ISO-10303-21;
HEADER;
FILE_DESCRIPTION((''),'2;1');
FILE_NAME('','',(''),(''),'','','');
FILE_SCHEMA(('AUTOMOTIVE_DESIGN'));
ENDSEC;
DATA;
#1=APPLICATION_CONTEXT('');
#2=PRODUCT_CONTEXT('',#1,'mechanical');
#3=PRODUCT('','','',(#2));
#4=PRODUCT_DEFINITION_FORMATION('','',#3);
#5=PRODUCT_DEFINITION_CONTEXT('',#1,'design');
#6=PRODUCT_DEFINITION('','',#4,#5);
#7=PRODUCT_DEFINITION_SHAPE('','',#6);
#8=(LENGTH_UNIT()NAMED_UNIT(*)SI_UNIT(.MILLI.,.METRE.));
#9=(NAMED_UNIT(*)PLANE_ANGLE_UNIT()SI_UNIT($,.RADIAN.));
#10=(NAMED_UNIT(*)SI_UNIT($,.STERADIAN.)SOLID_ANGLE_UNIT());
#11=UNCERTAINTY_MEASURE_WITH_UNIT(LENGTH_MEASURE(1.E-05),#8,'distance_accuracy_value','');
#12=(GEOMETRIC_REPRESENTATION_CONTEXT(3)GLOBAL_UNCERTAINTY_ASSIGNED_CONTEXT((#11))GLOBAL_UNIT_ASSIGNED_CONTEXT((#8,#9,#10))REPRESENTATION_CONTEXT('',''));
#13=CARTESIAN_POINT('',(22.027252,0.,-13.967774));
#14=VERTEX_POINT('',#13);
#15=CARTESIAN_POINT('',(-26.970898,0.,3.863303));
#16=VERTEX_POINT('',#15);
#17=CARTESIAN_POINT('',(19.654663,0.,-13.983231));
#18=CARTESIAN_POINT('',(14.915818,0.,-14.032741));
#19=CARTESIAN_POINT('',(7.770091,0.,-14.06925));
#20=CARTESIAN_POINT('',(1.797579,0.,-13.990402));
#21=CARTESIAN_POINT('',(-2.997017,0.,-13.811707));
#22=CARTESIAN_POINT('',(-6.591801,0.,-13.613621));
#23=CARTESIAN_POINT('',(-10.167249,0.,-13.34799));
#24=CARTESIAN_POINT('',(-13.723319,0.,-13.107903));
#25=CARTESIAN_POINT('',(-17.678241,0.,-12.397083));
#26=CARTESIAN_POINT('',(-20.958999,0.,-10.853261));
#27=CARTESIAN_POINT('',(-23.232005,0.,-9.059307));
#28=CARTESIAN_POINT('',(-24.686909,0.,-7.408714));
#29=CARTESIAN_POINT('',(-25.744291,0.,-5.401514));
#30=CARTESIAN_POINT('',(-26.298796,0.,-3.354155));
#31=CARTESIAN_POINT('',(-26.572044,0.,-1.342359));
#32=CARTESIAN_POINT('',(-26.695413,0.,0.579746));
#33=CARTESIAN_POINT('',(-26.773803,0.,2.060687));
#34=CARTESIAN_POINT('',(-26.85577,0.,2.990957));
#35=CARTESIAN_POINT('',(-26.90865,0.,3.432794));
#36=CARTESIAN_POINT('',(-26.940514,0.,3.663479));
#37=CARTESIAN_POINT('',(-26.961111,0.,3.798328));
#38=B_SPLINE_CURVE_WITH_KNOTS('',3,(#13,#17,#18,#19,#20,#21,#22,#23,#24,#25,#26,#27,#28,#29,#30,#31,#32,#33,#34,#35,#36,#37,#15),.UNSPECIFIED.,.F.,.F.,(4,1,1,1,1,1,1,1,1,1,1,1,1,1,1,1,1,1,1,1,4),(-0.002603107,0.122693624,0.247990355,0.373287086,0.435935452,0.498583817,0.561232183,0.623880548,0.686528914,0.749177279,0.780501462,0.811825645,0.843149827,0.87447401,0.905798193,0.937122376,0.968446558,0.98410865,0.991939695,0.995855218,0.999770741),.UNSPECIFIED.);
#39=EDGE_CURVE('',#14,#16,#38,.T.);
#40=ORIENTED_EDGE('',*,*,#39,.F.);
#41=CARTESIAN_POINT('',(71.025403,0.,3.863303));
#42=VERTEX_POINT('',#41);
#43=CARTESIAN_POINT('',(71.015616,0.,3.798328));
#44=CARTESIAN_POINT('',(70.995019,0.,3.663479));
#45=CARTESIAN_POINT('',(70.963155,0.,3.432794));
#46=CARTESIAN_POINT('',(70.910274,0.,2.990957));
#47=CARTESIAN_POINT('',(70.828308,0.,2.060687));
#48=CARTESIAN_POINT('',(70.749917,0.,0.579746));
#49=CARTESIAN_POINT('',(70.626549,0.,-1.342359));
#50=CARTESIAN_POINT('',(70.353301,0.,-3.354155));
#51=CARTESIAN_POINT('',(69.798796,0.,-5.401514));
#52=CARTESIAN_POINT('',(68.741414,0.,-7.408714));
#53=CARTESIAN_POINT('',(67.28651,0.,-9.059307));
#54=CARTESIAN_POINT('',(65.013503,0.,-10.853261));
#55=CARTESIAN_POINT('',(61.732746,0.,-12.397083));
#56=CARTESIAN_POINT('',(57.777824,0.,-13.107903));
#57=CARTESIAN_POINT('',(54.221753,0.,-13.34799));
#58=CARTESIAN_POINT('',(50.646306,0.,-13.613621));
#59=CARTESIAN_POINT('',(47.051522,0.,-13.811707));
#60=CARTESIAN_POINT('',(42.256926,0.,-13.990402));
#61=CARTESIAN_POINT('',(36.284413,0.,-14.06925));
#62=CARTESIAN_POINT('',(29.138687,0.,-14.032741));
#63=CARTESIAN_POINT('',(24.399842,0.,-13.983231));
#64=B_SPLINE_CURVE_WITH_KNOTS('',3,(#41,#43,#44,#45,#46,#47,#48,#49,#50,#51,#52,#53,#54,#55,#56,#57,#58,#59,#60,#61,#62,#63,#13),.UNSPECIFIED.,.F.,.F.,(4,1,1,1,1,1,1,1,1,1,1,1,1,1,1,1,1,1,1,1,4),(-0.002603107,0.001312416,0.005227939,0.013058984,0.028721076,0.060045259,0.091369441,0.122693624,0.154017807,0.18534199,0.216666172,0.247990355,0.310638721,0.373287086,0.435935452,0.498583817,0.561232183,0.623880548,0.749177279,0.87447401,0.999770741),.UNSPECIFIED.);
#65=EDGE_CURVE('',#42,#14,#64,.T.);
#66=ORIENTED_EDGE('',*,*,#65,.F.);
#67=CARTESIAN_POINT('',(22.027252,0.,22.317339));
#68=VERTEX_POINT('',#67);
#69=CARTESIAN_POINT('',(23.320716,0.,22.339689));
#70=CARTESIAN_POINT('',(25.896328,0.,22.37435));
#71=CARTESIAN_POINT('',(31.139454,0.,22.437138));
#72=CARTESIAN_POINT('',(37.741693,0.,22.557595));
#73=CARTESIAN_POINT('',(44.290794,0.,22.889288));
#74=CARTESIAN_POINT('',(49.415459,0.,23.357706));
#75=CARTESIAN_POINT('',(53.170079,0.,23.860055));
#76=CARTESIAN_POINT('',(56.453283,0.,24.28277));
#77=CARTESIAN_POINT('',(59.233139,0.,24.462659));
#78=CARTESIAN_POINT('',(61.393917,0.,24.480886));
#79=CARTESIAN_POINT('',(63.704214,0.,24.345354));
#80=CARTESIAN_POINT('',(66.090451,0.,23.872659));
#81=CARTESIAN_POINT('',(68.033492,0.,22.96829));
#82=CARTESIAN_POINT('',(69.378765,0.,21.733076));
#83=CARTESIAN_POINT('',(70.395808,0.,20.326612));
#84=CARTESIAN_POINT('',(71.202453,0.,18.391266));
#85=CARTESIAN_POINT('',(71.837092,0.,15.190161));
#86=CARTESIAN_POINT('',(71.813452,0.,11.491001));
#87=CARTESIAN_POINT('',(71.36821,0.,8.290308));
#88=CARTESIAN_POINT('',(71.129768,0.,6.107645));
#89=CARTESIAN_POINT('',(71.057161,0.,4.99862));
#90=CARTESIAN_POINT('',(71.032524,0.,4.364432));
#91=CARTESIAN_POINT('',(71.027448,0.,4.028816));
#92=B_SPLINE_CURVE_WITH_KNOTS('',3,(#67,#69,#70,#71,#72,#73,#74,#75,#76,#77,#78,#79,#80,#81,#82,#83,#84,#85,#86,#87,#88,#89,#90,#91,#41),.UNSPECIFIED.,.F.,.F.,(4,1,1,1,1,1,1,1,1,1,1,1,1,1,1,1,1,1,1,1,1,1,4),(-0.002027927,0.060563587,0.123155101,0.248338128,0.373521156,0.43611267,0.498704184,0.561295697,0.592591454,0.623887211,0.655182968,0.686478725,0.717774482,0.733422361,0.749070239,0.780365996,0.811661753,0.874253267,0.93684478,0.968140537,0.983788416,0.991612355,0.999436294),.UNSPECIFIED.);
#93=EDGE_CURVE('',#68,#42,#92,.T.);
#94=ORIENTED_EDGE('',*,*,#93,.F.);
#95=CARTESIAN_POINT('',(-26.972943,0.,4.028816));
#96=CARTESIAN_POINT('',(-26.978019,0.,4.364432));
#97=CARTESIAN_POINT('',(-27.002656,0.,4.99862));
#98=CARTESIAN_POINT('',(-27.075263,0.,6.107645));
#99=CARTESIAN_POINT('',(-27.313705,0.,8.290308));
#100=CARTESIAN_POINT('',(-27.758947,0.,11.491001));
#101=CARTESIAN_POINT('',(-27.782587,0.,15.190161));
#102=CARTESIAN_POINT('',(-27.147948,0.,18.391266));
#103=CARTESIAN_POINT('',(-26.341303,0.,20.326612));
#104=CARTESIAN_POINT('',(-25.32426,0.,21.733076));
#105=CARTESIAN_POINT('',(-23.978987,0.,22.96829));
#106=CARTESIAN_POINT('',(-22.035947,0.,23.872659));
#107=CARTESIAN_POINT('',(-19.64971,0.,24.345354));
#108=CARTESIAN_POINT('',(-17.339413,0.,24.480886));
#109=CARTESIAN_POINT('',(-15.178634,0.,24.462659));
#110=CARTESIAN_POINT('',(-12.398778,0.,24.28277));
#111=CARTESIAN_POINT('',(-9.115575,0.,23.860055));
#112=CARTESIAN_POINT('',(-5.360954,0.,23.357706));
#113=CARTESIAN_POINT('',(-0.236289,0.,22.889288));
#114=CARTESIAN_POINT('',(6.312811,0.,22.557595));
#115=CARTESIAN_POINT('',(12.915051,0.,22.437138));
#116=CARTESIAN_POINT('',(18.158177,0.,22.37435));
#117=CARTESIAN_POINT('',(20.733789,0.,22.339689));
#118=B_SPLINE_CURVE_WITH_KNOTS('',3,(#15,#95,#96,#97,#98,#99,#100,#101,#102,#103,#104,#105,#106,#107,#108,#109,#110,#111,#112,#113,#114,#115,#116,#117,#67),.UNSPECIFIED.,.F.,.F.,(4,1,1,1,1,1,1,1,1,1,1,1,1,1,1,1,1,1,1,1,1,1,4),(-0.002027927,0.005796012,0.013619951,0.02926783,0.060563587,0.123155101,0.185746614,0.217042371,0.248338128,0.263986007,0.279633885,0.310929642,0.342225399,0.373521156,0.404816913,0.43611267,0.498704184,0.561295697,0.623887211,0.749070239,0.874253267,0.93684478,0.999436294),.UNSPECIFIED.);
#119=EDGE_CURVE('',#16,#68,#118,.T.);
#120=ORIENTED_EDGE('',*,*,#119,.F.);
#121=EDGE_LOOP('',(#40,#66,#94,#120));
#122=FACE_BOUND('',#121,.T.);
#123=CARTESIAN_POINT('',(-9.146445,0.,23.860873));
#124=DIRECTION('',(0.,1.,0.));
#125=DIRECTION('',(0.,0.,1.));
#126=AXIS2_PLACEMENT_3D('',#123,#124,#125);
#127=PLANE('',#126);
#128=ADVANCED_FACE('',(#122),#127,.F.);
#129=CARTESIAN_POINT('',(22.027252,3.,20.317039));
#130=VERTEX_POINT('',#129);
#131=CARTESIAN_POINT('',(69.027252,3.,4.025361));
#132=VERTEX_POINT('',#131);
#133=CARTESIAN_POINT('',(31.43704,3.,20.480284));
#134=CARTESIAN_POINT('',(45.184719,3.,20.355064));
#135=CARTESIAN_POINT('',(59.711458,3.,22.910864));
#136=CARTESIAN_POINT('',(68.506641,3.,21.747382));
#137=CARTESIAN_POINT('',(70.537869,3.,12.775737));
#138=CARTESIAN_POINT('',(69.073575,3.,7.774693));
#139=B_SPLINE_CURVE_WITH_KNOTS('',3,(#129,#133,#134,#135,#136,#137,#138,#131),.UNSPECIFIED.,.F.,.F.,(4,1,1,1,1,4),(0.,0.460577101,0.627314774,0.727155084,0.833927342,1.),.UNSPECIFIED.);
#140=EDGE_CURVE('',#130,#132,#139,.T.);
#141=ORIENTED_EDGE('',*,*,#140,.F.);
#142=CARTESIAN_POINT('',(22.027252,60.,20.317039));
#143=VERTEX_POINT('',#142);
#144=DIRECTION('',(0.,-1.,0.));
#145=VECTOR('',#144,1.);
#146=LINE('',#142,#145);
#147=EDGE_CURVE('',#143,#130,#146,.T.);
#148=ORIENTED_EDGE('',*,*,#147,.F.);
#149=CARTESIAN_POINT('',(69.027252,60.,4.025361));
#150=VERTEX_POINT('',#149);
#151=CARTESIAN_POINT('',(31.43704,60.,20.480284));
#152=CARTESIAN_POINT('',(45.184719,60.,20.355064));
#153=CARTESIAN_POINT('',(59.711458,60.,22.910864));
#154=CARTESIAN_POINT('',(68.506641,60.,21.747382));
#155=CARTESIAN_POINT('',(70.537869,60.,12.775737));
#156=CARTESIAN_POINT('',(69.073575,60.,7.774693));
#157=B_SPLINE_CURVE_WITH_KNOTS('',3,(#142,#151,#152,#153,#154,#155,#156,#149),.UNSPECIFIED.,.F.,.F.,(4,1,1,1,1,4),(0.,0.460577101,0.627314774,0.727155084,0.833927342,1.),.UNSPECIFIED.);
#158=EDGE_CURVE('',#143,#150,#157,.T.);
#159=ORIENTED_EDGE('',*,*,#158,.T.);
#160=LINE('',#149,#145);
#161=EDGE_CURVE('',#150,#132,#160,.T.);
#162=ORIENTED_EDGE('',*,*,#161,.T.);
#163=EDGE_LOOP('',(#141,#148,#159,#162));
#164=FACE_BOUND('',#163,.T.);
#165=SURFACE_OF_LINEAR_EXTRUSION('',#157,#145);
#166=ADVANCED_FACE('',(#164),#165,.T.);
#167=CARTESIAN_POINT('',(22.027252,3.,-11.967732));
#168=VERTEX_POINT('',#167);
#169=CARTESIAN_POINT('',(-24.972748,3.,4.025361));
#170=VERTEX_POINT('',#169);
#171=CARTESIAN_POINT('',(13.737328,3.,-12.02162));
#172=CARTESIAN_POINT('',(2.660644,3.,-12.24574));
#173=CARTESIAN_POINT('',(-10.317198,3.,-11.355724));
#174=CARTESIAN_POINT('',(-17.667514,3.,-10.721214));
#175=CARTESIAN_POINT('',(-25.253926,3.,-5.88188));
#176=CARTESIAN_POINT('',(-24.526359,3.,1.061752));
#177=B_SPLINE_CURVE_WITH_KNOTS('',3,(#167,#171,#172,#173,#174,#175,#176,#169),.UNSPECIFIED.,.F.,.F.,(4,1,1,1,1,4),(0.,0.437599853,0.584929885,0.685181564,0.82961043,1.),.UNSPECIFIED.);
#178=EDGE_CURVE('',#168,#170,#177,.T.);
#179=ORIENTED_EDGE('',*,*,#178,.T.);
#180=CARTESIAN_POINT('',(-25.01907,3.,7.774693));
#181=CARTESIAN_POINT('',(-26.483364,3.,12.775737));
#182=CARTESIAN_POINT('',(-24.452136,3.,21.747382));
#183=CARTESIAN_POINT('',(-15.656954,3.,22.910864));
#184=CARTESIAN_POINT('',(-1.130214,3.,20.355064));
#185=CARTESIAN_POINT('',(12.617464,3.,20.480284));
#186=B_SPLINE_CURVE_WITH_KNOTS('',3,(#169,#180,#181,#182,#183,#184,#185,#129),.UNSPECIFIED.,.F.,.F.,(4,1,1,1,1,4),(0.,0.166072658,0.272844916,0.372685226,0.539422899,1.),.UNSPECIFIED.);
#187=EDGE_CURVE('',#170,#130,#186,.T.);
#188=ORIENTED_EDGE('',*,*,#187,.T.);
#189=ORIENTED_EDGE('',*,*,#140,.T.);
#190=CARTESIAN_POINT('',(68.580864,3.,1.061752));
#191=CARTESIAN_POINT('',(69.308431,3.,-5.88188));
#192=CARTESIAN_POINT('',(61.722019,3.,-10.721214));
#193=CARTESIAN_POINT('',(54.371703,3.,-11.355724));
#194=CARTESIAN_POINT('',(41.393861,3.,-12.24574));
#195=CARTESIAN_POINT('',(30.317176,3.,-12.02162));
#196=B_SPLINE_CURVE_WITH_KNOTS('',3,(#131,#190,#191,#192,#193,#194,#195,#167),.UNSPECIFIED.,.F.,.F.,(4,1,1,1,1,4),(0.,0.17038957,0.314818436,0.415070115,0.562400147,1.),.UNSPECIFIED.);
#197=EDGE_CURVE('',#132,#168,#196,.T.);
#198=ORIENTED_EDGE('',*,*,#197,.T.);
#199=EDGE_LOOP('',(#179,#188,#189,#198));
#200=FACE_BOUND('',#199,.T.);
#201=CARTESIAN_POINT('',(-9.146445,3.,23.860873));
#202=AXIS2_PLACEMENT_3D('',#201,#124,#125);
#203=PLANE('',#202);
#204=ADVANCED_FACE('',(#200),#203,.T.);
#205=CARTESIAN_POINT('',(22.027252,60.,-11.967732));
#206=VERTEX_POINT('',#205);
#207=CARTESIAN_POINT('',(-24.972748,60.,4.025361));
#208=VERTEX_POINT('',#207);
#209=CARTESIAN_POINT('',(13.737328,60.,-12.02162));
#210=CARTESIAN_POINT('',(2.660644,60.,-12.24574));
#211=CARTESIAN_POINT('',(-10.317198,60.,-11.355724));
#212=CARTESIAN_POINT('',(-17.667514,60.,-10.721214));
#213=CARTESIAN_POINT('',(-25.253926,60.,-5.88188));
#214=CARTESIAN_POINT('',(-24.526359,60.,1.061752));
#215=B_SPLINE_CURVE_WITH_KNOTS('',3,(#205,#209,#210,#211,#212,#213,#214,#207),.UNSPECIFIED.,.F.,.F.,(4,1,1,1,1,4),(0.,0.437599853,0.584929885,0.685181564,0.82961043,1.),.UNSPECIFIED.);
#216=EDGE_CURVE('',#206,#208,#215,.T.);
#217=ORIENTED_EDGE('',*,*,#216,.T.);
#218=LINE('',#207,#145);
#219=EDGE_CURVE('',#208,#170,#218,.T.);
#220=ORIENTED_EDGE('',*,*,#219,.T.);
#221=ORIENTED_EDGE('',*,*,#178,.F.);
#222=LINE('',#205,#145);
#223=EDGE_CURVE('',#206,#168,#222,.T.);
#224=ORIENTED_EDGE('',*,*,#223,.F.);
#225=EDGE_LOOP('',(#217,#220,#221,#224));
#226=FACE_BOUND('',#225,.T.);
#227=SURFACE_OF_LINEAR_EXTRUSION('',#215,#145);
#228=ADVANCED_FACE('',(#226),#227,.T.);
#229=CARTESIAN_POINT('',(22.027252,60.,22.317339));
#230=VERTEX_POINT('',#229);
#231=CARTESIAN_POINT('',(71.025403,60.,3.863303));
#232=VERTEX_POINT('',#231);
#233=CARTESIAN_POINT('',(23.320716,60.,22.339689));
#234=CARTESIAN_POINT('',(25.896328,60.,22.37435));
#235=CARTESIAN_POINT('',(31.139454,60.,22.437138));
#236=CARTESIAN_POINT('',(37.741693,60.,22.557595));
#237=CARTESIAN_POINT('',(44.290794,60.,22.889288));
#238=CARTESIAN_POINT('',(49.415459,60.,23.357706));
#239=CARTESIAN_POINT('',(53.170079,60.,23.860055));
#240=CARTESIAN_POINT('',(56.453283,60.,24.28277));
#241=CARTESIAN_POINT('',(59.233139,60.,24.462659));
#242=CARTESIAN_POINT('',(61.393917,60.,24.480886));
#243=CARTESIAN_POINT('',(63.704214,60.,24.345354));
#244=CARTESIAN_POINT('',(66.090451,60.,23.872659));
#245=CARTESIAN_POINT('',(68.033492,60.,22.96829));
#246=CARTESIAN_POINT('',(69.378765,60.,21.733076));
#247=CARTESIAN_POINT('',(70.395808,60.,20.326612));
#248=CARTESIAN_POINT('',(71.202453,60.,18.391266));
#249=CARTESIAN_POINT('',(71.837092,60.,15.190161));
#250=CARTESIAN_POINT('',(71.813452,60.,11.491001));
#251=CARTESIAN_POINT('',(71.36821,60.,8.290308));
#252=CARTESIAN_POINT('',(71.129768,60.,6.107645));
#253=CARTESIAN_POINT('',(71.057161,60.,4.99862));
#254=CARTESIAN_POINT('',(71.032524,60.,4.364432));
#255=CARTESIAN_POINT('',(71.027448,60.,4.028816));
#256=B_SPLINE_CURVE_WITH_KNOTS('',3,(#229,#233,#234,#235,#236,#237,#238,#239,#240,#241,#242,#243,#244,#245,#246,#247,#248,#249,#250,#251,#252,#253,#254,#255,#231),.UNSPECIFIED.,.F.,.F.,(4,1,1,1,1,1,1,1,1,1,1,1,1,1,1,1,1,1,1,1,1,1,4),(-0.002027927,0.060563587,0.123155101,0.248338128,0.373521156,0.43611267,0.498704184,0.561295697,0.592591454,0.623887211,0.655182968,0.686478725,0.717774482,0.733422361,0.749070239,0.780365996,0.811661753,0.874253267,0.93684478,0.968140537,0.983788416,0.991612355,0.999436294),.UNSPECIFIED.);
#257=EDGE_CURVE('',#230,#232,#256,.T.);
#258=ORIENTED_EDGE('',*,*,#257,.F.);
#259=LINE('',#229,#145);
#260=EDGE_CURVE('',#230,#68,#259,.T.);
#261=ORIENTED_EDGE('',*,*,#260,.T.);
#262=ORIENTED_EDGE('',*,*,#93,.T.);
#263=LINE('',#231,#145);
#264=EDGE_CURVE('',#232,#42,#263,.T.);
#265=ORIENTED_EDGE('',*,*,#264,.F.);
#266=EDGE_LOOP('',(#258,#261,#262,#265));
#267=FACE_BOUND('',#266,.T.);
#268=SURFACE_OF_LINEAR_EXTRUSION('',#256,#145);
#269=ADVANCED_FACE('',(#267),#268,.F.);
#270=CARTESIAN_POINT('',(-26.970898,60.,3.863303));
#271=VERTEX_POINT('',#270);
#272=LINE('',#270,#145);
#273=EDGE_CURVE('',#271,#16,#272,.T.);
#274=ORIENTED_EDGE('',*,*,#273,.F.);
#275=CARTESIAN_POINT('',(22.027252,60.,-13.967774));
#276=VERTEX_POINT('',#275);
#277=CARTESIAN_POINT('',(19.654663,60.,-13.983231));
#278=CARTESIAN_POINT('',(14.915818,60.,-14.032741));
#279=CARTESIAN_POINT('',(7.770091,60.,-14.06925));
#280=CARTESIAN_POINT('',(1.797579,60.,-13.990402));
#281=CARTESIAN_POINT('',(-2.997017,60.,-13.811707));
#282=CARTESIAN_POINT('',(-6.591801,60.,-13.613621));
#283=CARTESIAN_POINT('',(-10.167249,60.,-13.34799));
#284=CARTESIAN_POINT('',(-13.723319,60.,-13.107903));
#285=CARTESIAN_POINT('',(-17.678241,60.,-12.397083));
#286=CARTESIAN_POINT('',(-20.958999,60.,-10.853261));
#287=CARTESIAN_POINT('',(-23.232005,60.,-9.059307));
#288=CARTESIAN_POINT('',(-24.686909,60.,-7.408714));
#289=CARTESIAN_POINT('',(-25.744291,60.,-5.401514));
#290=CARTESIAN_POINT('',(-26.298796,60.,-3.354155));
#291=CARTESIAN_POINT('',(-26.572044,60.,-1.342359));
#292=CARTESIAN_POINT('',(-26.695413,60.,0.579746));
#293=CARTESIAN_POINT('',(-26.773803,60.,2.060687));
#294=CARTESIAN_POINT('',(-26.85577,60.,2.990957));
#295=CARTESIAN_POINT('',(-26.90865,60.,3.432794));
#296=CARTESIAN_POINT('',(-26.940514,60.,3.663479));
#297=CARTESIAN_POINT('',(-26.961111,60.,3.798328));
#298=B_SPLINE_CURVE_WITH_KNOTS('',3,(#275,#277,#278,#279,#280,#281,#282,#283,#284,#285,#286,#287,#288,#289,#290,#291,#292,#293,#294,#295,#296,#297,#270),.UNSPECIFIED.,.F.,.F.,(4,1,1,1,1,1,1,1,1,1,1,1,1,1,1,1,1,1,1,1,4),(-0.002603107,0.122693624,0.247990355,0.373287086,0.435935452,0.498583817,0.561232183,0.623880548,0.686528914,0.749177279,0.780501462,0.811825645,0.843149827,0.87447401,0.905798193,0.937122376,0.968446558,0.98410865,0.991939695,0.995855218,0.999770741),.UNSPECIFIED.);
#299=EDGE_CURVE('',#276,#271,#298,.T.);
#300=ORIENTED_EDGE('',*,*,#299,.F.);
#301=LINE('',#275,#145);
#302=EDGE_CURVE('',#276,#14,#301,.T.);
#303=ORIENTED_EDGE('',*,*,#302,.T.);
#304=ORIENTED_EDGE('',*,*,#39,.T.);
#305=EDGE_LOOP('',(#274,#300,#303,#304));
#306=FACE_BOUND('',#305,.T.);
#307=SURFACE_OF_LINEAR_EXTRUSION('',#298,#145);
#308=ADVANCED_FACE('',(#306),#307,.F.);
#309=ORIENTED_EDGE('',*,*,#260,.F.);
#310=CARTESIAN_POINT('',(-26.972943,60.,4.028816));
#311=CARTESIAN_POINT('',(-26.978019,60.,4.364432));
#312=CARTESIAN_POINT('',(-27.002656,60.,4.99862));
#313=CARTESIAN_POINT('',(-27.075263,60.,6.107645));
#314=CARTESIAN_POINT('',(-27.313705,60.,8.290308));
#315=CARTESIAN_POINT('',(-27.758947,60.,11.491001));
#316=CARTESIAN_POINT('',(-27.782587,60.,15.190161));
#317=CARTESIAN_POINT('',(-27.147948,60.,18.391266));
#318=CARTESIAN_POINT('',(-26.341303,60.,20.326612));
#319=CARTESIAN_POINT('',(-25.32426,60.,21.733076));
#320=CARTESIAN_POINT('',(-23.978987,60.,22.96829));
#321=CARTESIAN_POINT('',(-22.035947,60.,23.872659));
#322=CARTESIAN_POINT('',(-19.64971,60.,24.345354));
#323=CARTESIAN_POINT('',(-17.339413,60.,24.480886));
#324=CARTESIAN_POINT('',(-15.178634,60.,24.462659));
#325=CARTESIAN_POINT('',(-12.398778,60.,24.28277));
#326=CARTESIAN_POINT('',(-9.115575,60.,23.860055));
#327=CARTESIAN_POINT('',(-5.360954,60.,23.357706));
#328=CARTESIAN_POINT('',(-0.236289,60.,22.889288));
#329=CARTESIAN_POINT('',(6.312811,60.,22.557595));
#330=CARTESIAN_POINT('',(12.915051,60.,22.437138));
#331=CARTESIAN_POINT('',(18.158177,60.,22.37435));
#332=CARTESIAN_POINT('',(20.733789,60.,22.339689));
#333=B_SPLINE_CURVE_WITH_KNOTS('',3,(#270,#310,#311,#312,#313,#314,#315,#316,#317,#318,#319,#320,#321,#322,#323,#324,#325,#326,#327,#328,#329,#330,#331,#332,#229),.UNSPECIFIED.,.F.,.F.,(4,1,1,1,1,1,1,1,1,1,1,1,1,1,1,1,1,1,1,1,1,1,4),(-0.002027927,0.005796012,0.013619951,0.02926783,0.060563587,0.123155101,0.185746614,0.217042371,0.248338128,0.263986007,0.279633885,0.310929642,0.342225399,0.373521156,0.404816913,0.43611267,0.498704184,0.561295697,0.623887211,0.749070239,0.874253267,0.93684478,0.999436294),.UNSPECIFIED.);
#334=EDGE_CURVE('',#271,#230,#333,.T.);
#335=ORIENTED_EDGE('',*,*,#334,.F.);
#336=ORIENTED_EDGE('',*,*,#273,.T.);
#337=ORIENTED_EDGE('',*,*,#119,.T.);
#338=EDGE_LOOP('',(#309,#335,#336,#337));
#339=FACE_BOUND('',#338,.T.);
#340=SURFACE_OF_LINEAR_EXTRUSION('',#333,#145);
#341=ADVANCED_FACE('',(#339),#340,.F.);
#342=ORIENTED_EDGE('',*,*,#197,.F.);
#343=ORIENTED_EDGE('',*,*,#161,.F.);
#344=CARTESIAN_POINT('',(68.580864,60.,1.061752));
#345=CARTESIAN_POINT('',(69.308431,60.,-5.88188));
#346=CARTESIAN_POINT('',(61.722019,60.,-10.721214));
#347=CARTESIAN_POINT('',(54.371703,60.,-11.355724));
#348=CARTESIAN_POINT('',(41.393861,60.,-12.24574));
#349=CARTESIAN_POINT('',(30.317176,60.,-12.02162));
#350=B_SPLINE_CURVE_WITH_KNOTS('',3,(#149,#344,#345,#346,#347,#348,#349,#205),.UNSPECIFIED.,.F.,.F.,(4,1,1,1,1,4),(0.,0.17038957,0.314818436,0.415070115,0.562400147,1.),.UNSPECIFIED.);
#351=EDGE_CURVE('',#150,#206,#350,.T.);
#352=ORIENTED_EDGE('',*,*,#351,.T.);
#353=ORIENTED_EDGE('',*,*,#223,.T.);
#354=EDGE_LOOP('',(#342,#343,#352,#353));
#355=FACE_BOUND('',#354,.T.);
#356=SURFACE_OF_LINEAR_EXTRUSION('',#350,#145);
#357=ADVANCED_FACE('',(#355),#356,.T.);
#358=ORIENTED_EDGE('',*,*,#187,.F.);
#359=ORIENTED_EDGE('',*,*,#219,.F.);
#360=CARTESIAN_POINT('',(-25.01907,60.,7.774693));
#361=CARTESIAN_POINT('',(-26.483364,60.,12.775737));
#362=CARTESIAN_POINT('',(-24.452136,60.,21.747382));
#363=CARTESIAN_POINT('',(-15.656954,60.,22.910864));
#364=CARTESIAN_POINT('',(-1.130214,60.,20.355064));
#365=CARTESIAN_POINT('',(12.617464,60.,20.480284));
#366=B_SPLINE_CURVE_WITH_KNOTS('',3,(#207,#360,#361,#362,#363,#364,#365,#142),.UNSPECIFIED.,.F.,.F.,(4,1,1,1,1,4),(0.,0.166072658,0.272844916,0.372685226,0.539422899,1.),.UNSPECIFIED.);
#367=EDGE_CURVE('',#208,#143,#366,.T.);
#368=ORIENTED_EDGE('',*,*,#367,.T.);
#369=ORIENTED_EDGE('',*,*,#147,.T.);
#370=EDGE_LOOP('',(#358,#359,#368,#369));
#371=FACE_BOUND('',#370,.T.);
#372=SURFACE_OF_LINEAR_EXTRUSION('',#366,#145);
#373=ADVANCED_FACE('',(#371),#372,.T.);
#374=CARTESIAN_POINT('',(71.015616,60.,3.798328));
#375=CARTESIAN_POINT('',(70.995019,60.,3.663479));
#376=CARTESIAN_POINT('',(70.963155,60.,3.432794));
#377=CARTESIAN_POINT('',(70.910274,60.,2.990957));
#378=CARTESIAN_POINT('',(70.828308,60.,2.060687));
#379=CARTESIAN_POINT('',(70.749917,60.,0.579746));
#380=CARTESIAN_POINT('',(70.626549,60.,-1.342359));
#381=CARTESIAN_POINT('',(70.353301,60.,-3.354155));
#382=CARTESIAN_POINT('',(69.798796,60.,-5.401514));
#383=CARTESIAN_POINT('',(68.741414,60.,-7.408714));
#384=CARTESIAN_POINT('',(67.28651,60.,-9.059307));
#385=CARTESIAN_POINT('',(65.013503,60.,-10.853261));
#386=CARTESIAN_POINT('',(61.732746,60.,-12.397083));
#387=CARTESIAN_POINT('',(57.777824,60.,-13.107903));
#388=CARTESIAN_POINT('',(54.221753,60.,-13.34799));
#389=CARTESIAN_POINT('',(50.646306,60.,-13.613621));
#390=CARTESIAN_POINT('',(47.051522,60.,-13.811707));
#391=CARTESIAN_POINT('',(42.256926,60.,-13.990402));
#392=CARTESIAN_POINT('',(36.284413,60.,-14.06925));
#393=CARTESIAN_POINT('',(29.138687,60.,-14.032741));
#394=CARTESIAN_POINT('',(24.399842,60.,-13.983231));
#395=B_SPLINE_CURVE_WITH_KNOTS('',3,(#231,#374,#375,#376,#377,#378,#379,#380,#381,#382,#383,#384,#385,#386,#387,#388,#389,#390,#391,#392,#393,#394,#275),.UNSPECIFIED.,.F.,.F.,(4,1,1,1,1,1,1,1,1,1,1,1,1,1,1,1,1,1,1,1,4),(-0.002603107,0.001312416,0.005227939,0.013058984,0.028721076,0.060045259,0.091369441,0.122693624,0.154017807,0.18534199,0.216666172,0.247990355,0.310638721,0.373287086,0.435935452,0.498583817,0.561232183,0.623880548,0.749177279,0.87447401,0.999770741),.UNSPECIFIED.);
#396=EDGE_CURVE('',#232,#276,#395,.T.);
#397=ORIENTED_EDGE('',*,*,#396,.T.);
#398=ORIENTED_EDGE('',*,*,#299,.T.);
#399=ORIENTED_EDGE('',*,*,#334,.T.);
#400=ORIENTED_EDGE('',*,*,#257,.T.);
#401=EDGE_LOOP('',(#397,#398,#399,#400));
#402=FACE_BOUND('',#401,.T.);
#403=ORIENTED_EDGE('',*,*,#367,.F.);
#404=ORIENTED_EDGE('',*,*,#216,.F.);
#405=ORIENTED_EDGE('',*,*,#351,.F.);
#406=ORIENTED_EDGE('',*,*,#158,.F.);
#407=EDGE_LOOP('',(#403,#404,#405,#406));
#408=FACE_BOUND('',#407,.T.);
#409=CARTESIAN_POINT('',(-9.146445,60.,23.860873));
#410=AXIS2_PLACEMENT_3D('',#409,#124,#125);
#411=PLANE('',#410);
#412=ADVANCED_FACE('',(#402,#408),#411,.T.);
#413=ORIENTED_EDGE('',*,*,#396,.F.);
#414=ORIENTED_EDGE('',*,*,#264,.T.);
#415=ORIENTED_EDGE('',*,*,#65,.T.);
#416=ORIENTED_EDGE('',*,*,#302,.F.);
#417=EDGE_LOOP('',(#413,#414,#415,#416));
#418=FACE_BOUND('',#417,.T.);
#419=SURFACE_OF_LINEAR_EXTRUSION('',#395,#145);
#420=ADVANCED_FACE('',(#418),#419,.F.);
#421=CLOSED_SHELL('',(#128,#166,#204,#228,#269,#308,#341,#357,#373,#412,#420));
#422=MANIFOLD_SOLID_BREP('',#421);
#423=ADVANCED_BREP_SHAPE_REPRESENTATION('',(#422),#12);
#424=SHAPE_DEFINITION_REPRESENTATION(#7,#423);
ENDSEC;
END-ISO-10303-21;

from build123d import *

# Parameters (mm, degrees)
Y_KSEKLIK_EKSTR_ZYON1_DEPTH = 60
Y_KSEKLIK_EKSTR_ZYON2_DEPTH = 3


with BuildPart() as part:
    # Çizim1 → Yükseklik-Ekstrüzyon1 (new body)
    with BuildSketch(Plane(origin=(0, 0, 0), x_dir=(1, 0, 0), z_dir=(0, 1, 0))):
        with BuildLine():
            add(Edge.make_bspline(
                [(-26.970898007, -3.863302647), (-26.961111238, -3.79832753), (-26.940514451, -3.663479453), (-26.908650018, -3.432794299), (-26.855769615, -2.990956505), (-26.773803233, -2.06068722), (-26.695412617, -0.5797462), (-26.572044258, 1.342358929), (-26.29879594, 3.354154668), (-25.74429138, 5.401513801), (-24.686909281, 7.408713935), (-23.232005387, 9.059306715), (-20.958998606, 10.853261454), (-17.678240908, 12.397082823), (-13.723319496, 13.107903004), (-10.167248595, 13.347990346), (-6.591800716, 13.613621395), (-2.997016963, 13.811706505), (1.797578973, 13.990401922), (7.770091472, 14.069250179), (14.915818339, 14.03274079), (19.654663039, 13.983231028), (22.027252434, 13.967774119)],
                knots=[-0.002603107, -0.002603107, -0.002603107, -0.002603107, 0.001312416, 0.005227939, 0.013058984, 0.028721076, 0.060045259, 0.091369441, 0.122693624, 0.154017807, 0.18534199, 0.216666172, 0.247990355, 0.310638721, 0.373287086, 0.435935452, 0.498583817, 0.561232183, 0.623880548, 0.749177279, 0.87447401, 0.999770741, 0.999770741, 0.999770741, 0.999770741], degree=3))
            add(Edge.make_bspline(
                [(22.027252434, 13.967774119), (24.399841829, 13.983231028), (29.138686528, 14.03274079), (36.284413396, 14.069250179), (42.256925894, 13.990401922), (47.05152183, 13.811706505), (50.646305584, 13.613621395), (54.221753463, 13.347990346), (57.777824364, 13.107903004), (61.732745775, 12.397082823), (65.013503474, 10.853261454), (67.286510254, 9.059306715), (68.741414148, 7.408713935), (69.798796248, 5.401513801), (70.353300808, 3.354154668), (70.626549125, 1.342358929), (70.749917484, -0.5797462), (70.8283081, -2.06068722), (70.910274482, -2.990956505), (70.963154886, -3.432794299), (70.995019319, -3.663479453), (71.015616105, -3.79832753), (71.025402875, -3.863302647)],
                knots=[-0.002603107, -0.002603107, -0.002603107, -0.002603107, 0.122693624, 0.247990355, 0.373287086, 0.435935452, 0.498583817, 0.561232183, 0.623880548, 0.686528914, 0.749177279, 0.780501462, 0.811825645, 0.843149827, 0.87447401, 0.905798193, 0.937122376, 0.968446558, 0.98410865, 0.991939695, 0.995855218, 0.999770741, 0.999770741, 0.999770741, 0.999770741], degree=3))
            add(Edge.make_bspline(
                [(71.025402875, -3.863302647), (71.027447765, -4.028816444), (71.032524159, -4.364432015), (71.057161293, -4.998619829), (71.12976779, -6.10764478), (71.368210023, -8.290308489), (71.813451753, -11.491001265), (71.837091858, -15.190160573), (71.202453065, -18.391266216), (70.395807949, -20.326612065), (69.378765227, -21.733075846), (68.033492138, -22.968289807), (66.090451412, -23.872659179), (63.704214477, -24.345354377), (61.393917391, -24.48088566), (59.233139242, -24.462658569), (56.453282735, -24.282769986), (53.170079378, -23.860055473), (49.415458669, -23.357705909), (44.290793655, -22.889288028), (37.741693389, -22.557594682), (31.139454307, -22.437137868), (25.896327818, -22.374349869), (23.320716055, -22.339688809), (22.027252434, -22.317338744)],
                knots=[-0.002027927, -0.002027927, -0.002027927, -0.002027927, 0.005796012, 0.013619951, 0.02926783, 0.060563587, 0.123155101, 0.185746614, 0.217042371, 0.248338128, 0.263986007, 0.279633885, 0.310929642, 0.342225399, 0.373521156, 0.404816913, 0.43611267, 0.498704184, 0.561295697, 0.623887211, 0.749070239, 0.874253267, 0.93684478, 0.999436294, 0.999436294, 0.999436294, 0.999436294], degree=3))
            add(Edge.make_bspline(
                [(22.027252434, -22.317338744), (20.733788813, -22.339688809), (18.158177049, -22.374349869), (12.91505056, -22.437137868), (6.312811478, -22.557594682), (-0.236288787, -22.889288028), (-5.360953801, -23.357705909), (-9.115574511, -23.860055473), (-12.398777867, -24.282769986), (-15.178634374, -24.462658569), (-17.339412523, -24.48088566), (-19.64970961, -24.345354377), (-22.035946544, -23.872659179), (-23.97898727, -22.968289807), (-25.324260359, -21.733075846), (-26.341303082, -20.326612065), (-27.147948197, -18.391266216), (-27.78258699, -15.190160573), (-27.758946886, -11.491001265), (-27.313705155, -8.290308489), (-27.075262923, -6.10764478), (-27.002656425, -4.998619829), (-26.978019292, -4.364432015), (-26.972942898, -4.028816444), (-26.970898007, -3.863302647)],
                knots=[-0.002027927, -0.002027927, -0.002027927, -0.002027927, 0.060563587, 0.123155101, 0.248338128, 0.373521156, 0.43611267, 0.498704184, 0.561295697, 0.592591454, 0.623887211, 0.655182968, 0.686478725, 0.717774482, 0.733422361, 0.749070239, 0.780365996, 0.811661753, 0.874253267, 0.93684478, 0.968140537, 0.983788416, 0.991612355, 0.999436294, 0.999436294, 0.999436294, 0.999436294], degree=3))
        make_face()
        with BuildLine():
            add(Edge.make_bspline(
                [(-24.972747566, -4.0253606), (-24.526358955, -1.061752174), (-25.253926096, 5.881879611), (-17.667513986, 10.721214232), (-10.317198482, 11.355723769), (2.660643875, 12.245739731), (13.737328433, 12.021619781), (22.027252434, 11.96773177)],
                knots=[0, 0, 0, 0, 0.17038957, 0.314818436, 0.415070115, 0.562400147, 1, 1, 1, 1], degree=3))
            add(Edge.make_bspline(
                [(69.027252434, -4.0253606), (68.580863823, -1.061752174), (69.308430963, 5.881879611), (61.722018853, 10.721214232), (54.37170335, 11.355723769), (41.393860993, 12.245739731), (30.317176435, 12.021619781), (22.027252434, 11.96773177)],
                knots=[0, 0, 0, 0, 0.17038957, 0.314818436, 0.415070115, 0.562400147, 1, 1, 1, 1], degree=3))
            add(Edge.make_bspline(
                [(69.027252434, -4.0253606), (69.073574705, -7.774692699), (70.537868808, -12.77573667), (68.506640847, -21.747382309), (59.711458497, -22.910863901), (45.184719049, -20.355064178), (31.437040426, -20.480284225), (22.027252434, -20.317039)],
                knots=[0, 0, 0, 0, 0.166072658, 0.272844916, 0.372685226, 0.539422899, 1, 1, 1, 1], degree=3))
            add(Edge.make_bspline(
                [(-24.972747566, -4.0253606), (-25.019069838, -7.774692699), (-26.48336394, -12.77573667), (-24.452135979, -21.747382309), (-15.65695363, -22.910863901), (-1.130214182, -20.355064178), (12.617464441, -20.480284225), (22.027252434, -20.317039)],
                knots=[0, 0, 0, 0, 0.166072658, 0.272844916, 0.372685226, 0.539422899, 1, 1, 1, 1], degree=3))
        make_face(mode=Mode.SUBTRACT)
    extrude(amount=Y_KSEKLIK_EKSTR_ZYON1_DEPTH)

    # Çizim4 → Yükseklik-Ekstrüzyon2 (add)
    with BuildSketch(Plane.XZ):
        with BuildLine():
            add(Edge.make_bspline(
                [(-26.970898007, 3.863302647), (-26.961111238, 3.79832753), (-26.940514451, 3.663479453), (-26.908650018, 3.432794299), (-26.855769615, 2.990956505), (-26.773803233, 2.06068722), (-26.695412617, 0.5797462), (-26.572044258, -1.342358929), (-26.29879594, -3.354154668), (-25.74429138, -5.401513801), (-24.686909281, -7.408713935), (-23.232005387, -9.059306715), (-20.958998606, -10.853261454), (-17.678240908, -12.397082823), (-13.723319496, -13.107903004), (-10.167248595, -13.347990346), (-6.591800716, -13.613621395), (-2.997016963, -13.811706505), (1.797578973, -13.990401922), (7.770091472, -14.069250179), (14.915818339, -14.03274079), (19.654663039, -13.983231028), (22.027252434, -13.967774119)],
                knots=[-0.002603107, -0.002603107, -0.002603107, -0.002603107, 0.001312416, 0.005227939, 0.013058984, 0.028721076, 0.060045259, 0.091369441, 0.122693624, 0.154017807, 0.18534199, 0.216666172, 0.247990355, 0.310638721, 0.373287086, 0.435935452, 0.498583817, 0.561232183, 0.623880548, 0.749177279, 0.87447401, 0.999770741, 0.999770741, 0.999770741, 0.999770741], degree=3))
            add(Edge.make_bspline(
                [(22.027252434, -13.967774119), (24.399841829, -13.983231028), (29.138686528, -14.03274079), (36.284413396, -14.069250179), (42.256925894, -13.990401922), (47.05152183, -13.811706505), (50.646305584, -13.613621395), (54.221753463, -13.347990346), (57.777824364, -13.107903004), (61.732745775, -12.397082823), (65.013503474, -10.853261454), (67.286510254, -9.059306715), (68.741414148, -7.408713935), (69.798796248, -5.401513801), (70.353300808, -3.354154668), (70.626549125, -1.342358929), (70.749917484, 0.5797462), (70.8283081, 2.06068722), (70.910274482, 2.990956505), (70.963154886, 3.432794299), (70.995019319, 3.663479453), (71.015616105, 3.79832753), (71.025402875, 3.863302647)],
                knots=[-0.002603107, -0.002603107, -0.002603107, -0.002603107, 0.122693624, 0.247990355, 0.373287086, 0.435935452, 0.498583817, 0.561232183, 0.623880548, 0.686528914, 0.749177279, 0.780501462, 0.811825645, 0.843149827, 0.87447401, 0.905798193, 0.937122376, 0.968446558, 0.98410865, 0.991939695, 0.995855218, 0.999770741, 0.999770741, 0.999770741, 0.999770741], degree=3))
            add(Edge.make_bspline(
                [(71.025402875, 3.863302647), (71.027447765, 4.028816444), (71.032524159, 4.364432015), (71.057161293, 4.998619829), (71.12976779, 6.10764478), (71.368210023, 8.290308489), (71.813451753, 11.491001265), (71.837091858, 15.190160573), (71.202453065, 18.391266216), (70.395807949, 20.326612065), (69.378765227, 21.733075846), (68.033492138, 22.968289807), (66.090451412, 23.872659179), (63.704214477, 24.345354377), (61.393917391, 24.48088566), (59.233139242, 24.462658569), (56.453282735, 24.282769986), (53.170079378, 23.860055473), (49.415458669, 23.357705909), (44.290793655, 22.889288028), (37.741693389, 22.557594682), (31.139454307, 22.437137868), (25.896327818, 22.374349869), (23.320716055, 22.339688809), (22.027252434, 22.317338744)],
                knots=[-0.002027927, -0.002027927, -0.002027927, -0.002027927, 0.005796012, 0.013619951, 0.02926783, 0.060563587, 0.123155101, 0.185746614, 0.217042371, 0.248338128, 0.263986007, 0.279633885, 0.310929642, 0.342225399, 0.373521156, 0.404816913, 0.43611267, 0.498704184, 0.561295697, 0.623887211, 0.749070239, 0.874253267, 0.93684478, 0.999436294, 0.999436294, 0.999436294, 0.999436294], degree=3))
            add(Edge.make_bspline(
                [(22.027252434, 22.317338744), (20.733788813, 22.339688809), (18.158177049, 22.374349869), (12.91505056, 22.437137868), (6.312811478, 22.557594682), (-0.236288787, 22.889288028), (-5.360953801, 23.357705909), (-9.115574511, 23.860055473), (-12.398777867, 24.282769986), (-15.178634374, 24.462658569), (-17.339412523, 24.48088566), (-19.64970961, 24.345354377), (-22.035946544, 23.872659179), (-23.97898727, 22.968289807), (-25.324260359, 21.733075846), (-26.341303082, 20.326612065), (-27.147948197, 18.391266216), (-27.78258699, 15.190160573), (-27.758946886, 11.491001265), (-27.313705155, 8.290308489), (-27.075262923, 6.10764478), (-27.002656425, 4.998619829), (-26.978019292, 4.364432015), (-26.972942898, 4.028816444), (-26.970898007, 3.863302647)],
                knots=[-0.002027927, -0.002027927, -0.002027927, -0.002027927, 0.060563587, 0.123155101, 0.248338128, 0.373521156, 0.43611267, 0.498704184, 0.561295697, 0.592591454, 0.623887211, 0.655182968, 0.686478725, 0.717774482, 0.733422361, 0.749070239, 0.780365996, 0.811661753, 0.874253267, 0.93684478, 0.968140537, 0.983788416, 0.991612355, 0.999436294, 0.999436294, 0.999436294, 0.999436294], degree=3))
        make_face()
    extrude(amount=-Y_KSEKLIK_EKSTR_ZYON2_DEPTH)


solid = part.part
